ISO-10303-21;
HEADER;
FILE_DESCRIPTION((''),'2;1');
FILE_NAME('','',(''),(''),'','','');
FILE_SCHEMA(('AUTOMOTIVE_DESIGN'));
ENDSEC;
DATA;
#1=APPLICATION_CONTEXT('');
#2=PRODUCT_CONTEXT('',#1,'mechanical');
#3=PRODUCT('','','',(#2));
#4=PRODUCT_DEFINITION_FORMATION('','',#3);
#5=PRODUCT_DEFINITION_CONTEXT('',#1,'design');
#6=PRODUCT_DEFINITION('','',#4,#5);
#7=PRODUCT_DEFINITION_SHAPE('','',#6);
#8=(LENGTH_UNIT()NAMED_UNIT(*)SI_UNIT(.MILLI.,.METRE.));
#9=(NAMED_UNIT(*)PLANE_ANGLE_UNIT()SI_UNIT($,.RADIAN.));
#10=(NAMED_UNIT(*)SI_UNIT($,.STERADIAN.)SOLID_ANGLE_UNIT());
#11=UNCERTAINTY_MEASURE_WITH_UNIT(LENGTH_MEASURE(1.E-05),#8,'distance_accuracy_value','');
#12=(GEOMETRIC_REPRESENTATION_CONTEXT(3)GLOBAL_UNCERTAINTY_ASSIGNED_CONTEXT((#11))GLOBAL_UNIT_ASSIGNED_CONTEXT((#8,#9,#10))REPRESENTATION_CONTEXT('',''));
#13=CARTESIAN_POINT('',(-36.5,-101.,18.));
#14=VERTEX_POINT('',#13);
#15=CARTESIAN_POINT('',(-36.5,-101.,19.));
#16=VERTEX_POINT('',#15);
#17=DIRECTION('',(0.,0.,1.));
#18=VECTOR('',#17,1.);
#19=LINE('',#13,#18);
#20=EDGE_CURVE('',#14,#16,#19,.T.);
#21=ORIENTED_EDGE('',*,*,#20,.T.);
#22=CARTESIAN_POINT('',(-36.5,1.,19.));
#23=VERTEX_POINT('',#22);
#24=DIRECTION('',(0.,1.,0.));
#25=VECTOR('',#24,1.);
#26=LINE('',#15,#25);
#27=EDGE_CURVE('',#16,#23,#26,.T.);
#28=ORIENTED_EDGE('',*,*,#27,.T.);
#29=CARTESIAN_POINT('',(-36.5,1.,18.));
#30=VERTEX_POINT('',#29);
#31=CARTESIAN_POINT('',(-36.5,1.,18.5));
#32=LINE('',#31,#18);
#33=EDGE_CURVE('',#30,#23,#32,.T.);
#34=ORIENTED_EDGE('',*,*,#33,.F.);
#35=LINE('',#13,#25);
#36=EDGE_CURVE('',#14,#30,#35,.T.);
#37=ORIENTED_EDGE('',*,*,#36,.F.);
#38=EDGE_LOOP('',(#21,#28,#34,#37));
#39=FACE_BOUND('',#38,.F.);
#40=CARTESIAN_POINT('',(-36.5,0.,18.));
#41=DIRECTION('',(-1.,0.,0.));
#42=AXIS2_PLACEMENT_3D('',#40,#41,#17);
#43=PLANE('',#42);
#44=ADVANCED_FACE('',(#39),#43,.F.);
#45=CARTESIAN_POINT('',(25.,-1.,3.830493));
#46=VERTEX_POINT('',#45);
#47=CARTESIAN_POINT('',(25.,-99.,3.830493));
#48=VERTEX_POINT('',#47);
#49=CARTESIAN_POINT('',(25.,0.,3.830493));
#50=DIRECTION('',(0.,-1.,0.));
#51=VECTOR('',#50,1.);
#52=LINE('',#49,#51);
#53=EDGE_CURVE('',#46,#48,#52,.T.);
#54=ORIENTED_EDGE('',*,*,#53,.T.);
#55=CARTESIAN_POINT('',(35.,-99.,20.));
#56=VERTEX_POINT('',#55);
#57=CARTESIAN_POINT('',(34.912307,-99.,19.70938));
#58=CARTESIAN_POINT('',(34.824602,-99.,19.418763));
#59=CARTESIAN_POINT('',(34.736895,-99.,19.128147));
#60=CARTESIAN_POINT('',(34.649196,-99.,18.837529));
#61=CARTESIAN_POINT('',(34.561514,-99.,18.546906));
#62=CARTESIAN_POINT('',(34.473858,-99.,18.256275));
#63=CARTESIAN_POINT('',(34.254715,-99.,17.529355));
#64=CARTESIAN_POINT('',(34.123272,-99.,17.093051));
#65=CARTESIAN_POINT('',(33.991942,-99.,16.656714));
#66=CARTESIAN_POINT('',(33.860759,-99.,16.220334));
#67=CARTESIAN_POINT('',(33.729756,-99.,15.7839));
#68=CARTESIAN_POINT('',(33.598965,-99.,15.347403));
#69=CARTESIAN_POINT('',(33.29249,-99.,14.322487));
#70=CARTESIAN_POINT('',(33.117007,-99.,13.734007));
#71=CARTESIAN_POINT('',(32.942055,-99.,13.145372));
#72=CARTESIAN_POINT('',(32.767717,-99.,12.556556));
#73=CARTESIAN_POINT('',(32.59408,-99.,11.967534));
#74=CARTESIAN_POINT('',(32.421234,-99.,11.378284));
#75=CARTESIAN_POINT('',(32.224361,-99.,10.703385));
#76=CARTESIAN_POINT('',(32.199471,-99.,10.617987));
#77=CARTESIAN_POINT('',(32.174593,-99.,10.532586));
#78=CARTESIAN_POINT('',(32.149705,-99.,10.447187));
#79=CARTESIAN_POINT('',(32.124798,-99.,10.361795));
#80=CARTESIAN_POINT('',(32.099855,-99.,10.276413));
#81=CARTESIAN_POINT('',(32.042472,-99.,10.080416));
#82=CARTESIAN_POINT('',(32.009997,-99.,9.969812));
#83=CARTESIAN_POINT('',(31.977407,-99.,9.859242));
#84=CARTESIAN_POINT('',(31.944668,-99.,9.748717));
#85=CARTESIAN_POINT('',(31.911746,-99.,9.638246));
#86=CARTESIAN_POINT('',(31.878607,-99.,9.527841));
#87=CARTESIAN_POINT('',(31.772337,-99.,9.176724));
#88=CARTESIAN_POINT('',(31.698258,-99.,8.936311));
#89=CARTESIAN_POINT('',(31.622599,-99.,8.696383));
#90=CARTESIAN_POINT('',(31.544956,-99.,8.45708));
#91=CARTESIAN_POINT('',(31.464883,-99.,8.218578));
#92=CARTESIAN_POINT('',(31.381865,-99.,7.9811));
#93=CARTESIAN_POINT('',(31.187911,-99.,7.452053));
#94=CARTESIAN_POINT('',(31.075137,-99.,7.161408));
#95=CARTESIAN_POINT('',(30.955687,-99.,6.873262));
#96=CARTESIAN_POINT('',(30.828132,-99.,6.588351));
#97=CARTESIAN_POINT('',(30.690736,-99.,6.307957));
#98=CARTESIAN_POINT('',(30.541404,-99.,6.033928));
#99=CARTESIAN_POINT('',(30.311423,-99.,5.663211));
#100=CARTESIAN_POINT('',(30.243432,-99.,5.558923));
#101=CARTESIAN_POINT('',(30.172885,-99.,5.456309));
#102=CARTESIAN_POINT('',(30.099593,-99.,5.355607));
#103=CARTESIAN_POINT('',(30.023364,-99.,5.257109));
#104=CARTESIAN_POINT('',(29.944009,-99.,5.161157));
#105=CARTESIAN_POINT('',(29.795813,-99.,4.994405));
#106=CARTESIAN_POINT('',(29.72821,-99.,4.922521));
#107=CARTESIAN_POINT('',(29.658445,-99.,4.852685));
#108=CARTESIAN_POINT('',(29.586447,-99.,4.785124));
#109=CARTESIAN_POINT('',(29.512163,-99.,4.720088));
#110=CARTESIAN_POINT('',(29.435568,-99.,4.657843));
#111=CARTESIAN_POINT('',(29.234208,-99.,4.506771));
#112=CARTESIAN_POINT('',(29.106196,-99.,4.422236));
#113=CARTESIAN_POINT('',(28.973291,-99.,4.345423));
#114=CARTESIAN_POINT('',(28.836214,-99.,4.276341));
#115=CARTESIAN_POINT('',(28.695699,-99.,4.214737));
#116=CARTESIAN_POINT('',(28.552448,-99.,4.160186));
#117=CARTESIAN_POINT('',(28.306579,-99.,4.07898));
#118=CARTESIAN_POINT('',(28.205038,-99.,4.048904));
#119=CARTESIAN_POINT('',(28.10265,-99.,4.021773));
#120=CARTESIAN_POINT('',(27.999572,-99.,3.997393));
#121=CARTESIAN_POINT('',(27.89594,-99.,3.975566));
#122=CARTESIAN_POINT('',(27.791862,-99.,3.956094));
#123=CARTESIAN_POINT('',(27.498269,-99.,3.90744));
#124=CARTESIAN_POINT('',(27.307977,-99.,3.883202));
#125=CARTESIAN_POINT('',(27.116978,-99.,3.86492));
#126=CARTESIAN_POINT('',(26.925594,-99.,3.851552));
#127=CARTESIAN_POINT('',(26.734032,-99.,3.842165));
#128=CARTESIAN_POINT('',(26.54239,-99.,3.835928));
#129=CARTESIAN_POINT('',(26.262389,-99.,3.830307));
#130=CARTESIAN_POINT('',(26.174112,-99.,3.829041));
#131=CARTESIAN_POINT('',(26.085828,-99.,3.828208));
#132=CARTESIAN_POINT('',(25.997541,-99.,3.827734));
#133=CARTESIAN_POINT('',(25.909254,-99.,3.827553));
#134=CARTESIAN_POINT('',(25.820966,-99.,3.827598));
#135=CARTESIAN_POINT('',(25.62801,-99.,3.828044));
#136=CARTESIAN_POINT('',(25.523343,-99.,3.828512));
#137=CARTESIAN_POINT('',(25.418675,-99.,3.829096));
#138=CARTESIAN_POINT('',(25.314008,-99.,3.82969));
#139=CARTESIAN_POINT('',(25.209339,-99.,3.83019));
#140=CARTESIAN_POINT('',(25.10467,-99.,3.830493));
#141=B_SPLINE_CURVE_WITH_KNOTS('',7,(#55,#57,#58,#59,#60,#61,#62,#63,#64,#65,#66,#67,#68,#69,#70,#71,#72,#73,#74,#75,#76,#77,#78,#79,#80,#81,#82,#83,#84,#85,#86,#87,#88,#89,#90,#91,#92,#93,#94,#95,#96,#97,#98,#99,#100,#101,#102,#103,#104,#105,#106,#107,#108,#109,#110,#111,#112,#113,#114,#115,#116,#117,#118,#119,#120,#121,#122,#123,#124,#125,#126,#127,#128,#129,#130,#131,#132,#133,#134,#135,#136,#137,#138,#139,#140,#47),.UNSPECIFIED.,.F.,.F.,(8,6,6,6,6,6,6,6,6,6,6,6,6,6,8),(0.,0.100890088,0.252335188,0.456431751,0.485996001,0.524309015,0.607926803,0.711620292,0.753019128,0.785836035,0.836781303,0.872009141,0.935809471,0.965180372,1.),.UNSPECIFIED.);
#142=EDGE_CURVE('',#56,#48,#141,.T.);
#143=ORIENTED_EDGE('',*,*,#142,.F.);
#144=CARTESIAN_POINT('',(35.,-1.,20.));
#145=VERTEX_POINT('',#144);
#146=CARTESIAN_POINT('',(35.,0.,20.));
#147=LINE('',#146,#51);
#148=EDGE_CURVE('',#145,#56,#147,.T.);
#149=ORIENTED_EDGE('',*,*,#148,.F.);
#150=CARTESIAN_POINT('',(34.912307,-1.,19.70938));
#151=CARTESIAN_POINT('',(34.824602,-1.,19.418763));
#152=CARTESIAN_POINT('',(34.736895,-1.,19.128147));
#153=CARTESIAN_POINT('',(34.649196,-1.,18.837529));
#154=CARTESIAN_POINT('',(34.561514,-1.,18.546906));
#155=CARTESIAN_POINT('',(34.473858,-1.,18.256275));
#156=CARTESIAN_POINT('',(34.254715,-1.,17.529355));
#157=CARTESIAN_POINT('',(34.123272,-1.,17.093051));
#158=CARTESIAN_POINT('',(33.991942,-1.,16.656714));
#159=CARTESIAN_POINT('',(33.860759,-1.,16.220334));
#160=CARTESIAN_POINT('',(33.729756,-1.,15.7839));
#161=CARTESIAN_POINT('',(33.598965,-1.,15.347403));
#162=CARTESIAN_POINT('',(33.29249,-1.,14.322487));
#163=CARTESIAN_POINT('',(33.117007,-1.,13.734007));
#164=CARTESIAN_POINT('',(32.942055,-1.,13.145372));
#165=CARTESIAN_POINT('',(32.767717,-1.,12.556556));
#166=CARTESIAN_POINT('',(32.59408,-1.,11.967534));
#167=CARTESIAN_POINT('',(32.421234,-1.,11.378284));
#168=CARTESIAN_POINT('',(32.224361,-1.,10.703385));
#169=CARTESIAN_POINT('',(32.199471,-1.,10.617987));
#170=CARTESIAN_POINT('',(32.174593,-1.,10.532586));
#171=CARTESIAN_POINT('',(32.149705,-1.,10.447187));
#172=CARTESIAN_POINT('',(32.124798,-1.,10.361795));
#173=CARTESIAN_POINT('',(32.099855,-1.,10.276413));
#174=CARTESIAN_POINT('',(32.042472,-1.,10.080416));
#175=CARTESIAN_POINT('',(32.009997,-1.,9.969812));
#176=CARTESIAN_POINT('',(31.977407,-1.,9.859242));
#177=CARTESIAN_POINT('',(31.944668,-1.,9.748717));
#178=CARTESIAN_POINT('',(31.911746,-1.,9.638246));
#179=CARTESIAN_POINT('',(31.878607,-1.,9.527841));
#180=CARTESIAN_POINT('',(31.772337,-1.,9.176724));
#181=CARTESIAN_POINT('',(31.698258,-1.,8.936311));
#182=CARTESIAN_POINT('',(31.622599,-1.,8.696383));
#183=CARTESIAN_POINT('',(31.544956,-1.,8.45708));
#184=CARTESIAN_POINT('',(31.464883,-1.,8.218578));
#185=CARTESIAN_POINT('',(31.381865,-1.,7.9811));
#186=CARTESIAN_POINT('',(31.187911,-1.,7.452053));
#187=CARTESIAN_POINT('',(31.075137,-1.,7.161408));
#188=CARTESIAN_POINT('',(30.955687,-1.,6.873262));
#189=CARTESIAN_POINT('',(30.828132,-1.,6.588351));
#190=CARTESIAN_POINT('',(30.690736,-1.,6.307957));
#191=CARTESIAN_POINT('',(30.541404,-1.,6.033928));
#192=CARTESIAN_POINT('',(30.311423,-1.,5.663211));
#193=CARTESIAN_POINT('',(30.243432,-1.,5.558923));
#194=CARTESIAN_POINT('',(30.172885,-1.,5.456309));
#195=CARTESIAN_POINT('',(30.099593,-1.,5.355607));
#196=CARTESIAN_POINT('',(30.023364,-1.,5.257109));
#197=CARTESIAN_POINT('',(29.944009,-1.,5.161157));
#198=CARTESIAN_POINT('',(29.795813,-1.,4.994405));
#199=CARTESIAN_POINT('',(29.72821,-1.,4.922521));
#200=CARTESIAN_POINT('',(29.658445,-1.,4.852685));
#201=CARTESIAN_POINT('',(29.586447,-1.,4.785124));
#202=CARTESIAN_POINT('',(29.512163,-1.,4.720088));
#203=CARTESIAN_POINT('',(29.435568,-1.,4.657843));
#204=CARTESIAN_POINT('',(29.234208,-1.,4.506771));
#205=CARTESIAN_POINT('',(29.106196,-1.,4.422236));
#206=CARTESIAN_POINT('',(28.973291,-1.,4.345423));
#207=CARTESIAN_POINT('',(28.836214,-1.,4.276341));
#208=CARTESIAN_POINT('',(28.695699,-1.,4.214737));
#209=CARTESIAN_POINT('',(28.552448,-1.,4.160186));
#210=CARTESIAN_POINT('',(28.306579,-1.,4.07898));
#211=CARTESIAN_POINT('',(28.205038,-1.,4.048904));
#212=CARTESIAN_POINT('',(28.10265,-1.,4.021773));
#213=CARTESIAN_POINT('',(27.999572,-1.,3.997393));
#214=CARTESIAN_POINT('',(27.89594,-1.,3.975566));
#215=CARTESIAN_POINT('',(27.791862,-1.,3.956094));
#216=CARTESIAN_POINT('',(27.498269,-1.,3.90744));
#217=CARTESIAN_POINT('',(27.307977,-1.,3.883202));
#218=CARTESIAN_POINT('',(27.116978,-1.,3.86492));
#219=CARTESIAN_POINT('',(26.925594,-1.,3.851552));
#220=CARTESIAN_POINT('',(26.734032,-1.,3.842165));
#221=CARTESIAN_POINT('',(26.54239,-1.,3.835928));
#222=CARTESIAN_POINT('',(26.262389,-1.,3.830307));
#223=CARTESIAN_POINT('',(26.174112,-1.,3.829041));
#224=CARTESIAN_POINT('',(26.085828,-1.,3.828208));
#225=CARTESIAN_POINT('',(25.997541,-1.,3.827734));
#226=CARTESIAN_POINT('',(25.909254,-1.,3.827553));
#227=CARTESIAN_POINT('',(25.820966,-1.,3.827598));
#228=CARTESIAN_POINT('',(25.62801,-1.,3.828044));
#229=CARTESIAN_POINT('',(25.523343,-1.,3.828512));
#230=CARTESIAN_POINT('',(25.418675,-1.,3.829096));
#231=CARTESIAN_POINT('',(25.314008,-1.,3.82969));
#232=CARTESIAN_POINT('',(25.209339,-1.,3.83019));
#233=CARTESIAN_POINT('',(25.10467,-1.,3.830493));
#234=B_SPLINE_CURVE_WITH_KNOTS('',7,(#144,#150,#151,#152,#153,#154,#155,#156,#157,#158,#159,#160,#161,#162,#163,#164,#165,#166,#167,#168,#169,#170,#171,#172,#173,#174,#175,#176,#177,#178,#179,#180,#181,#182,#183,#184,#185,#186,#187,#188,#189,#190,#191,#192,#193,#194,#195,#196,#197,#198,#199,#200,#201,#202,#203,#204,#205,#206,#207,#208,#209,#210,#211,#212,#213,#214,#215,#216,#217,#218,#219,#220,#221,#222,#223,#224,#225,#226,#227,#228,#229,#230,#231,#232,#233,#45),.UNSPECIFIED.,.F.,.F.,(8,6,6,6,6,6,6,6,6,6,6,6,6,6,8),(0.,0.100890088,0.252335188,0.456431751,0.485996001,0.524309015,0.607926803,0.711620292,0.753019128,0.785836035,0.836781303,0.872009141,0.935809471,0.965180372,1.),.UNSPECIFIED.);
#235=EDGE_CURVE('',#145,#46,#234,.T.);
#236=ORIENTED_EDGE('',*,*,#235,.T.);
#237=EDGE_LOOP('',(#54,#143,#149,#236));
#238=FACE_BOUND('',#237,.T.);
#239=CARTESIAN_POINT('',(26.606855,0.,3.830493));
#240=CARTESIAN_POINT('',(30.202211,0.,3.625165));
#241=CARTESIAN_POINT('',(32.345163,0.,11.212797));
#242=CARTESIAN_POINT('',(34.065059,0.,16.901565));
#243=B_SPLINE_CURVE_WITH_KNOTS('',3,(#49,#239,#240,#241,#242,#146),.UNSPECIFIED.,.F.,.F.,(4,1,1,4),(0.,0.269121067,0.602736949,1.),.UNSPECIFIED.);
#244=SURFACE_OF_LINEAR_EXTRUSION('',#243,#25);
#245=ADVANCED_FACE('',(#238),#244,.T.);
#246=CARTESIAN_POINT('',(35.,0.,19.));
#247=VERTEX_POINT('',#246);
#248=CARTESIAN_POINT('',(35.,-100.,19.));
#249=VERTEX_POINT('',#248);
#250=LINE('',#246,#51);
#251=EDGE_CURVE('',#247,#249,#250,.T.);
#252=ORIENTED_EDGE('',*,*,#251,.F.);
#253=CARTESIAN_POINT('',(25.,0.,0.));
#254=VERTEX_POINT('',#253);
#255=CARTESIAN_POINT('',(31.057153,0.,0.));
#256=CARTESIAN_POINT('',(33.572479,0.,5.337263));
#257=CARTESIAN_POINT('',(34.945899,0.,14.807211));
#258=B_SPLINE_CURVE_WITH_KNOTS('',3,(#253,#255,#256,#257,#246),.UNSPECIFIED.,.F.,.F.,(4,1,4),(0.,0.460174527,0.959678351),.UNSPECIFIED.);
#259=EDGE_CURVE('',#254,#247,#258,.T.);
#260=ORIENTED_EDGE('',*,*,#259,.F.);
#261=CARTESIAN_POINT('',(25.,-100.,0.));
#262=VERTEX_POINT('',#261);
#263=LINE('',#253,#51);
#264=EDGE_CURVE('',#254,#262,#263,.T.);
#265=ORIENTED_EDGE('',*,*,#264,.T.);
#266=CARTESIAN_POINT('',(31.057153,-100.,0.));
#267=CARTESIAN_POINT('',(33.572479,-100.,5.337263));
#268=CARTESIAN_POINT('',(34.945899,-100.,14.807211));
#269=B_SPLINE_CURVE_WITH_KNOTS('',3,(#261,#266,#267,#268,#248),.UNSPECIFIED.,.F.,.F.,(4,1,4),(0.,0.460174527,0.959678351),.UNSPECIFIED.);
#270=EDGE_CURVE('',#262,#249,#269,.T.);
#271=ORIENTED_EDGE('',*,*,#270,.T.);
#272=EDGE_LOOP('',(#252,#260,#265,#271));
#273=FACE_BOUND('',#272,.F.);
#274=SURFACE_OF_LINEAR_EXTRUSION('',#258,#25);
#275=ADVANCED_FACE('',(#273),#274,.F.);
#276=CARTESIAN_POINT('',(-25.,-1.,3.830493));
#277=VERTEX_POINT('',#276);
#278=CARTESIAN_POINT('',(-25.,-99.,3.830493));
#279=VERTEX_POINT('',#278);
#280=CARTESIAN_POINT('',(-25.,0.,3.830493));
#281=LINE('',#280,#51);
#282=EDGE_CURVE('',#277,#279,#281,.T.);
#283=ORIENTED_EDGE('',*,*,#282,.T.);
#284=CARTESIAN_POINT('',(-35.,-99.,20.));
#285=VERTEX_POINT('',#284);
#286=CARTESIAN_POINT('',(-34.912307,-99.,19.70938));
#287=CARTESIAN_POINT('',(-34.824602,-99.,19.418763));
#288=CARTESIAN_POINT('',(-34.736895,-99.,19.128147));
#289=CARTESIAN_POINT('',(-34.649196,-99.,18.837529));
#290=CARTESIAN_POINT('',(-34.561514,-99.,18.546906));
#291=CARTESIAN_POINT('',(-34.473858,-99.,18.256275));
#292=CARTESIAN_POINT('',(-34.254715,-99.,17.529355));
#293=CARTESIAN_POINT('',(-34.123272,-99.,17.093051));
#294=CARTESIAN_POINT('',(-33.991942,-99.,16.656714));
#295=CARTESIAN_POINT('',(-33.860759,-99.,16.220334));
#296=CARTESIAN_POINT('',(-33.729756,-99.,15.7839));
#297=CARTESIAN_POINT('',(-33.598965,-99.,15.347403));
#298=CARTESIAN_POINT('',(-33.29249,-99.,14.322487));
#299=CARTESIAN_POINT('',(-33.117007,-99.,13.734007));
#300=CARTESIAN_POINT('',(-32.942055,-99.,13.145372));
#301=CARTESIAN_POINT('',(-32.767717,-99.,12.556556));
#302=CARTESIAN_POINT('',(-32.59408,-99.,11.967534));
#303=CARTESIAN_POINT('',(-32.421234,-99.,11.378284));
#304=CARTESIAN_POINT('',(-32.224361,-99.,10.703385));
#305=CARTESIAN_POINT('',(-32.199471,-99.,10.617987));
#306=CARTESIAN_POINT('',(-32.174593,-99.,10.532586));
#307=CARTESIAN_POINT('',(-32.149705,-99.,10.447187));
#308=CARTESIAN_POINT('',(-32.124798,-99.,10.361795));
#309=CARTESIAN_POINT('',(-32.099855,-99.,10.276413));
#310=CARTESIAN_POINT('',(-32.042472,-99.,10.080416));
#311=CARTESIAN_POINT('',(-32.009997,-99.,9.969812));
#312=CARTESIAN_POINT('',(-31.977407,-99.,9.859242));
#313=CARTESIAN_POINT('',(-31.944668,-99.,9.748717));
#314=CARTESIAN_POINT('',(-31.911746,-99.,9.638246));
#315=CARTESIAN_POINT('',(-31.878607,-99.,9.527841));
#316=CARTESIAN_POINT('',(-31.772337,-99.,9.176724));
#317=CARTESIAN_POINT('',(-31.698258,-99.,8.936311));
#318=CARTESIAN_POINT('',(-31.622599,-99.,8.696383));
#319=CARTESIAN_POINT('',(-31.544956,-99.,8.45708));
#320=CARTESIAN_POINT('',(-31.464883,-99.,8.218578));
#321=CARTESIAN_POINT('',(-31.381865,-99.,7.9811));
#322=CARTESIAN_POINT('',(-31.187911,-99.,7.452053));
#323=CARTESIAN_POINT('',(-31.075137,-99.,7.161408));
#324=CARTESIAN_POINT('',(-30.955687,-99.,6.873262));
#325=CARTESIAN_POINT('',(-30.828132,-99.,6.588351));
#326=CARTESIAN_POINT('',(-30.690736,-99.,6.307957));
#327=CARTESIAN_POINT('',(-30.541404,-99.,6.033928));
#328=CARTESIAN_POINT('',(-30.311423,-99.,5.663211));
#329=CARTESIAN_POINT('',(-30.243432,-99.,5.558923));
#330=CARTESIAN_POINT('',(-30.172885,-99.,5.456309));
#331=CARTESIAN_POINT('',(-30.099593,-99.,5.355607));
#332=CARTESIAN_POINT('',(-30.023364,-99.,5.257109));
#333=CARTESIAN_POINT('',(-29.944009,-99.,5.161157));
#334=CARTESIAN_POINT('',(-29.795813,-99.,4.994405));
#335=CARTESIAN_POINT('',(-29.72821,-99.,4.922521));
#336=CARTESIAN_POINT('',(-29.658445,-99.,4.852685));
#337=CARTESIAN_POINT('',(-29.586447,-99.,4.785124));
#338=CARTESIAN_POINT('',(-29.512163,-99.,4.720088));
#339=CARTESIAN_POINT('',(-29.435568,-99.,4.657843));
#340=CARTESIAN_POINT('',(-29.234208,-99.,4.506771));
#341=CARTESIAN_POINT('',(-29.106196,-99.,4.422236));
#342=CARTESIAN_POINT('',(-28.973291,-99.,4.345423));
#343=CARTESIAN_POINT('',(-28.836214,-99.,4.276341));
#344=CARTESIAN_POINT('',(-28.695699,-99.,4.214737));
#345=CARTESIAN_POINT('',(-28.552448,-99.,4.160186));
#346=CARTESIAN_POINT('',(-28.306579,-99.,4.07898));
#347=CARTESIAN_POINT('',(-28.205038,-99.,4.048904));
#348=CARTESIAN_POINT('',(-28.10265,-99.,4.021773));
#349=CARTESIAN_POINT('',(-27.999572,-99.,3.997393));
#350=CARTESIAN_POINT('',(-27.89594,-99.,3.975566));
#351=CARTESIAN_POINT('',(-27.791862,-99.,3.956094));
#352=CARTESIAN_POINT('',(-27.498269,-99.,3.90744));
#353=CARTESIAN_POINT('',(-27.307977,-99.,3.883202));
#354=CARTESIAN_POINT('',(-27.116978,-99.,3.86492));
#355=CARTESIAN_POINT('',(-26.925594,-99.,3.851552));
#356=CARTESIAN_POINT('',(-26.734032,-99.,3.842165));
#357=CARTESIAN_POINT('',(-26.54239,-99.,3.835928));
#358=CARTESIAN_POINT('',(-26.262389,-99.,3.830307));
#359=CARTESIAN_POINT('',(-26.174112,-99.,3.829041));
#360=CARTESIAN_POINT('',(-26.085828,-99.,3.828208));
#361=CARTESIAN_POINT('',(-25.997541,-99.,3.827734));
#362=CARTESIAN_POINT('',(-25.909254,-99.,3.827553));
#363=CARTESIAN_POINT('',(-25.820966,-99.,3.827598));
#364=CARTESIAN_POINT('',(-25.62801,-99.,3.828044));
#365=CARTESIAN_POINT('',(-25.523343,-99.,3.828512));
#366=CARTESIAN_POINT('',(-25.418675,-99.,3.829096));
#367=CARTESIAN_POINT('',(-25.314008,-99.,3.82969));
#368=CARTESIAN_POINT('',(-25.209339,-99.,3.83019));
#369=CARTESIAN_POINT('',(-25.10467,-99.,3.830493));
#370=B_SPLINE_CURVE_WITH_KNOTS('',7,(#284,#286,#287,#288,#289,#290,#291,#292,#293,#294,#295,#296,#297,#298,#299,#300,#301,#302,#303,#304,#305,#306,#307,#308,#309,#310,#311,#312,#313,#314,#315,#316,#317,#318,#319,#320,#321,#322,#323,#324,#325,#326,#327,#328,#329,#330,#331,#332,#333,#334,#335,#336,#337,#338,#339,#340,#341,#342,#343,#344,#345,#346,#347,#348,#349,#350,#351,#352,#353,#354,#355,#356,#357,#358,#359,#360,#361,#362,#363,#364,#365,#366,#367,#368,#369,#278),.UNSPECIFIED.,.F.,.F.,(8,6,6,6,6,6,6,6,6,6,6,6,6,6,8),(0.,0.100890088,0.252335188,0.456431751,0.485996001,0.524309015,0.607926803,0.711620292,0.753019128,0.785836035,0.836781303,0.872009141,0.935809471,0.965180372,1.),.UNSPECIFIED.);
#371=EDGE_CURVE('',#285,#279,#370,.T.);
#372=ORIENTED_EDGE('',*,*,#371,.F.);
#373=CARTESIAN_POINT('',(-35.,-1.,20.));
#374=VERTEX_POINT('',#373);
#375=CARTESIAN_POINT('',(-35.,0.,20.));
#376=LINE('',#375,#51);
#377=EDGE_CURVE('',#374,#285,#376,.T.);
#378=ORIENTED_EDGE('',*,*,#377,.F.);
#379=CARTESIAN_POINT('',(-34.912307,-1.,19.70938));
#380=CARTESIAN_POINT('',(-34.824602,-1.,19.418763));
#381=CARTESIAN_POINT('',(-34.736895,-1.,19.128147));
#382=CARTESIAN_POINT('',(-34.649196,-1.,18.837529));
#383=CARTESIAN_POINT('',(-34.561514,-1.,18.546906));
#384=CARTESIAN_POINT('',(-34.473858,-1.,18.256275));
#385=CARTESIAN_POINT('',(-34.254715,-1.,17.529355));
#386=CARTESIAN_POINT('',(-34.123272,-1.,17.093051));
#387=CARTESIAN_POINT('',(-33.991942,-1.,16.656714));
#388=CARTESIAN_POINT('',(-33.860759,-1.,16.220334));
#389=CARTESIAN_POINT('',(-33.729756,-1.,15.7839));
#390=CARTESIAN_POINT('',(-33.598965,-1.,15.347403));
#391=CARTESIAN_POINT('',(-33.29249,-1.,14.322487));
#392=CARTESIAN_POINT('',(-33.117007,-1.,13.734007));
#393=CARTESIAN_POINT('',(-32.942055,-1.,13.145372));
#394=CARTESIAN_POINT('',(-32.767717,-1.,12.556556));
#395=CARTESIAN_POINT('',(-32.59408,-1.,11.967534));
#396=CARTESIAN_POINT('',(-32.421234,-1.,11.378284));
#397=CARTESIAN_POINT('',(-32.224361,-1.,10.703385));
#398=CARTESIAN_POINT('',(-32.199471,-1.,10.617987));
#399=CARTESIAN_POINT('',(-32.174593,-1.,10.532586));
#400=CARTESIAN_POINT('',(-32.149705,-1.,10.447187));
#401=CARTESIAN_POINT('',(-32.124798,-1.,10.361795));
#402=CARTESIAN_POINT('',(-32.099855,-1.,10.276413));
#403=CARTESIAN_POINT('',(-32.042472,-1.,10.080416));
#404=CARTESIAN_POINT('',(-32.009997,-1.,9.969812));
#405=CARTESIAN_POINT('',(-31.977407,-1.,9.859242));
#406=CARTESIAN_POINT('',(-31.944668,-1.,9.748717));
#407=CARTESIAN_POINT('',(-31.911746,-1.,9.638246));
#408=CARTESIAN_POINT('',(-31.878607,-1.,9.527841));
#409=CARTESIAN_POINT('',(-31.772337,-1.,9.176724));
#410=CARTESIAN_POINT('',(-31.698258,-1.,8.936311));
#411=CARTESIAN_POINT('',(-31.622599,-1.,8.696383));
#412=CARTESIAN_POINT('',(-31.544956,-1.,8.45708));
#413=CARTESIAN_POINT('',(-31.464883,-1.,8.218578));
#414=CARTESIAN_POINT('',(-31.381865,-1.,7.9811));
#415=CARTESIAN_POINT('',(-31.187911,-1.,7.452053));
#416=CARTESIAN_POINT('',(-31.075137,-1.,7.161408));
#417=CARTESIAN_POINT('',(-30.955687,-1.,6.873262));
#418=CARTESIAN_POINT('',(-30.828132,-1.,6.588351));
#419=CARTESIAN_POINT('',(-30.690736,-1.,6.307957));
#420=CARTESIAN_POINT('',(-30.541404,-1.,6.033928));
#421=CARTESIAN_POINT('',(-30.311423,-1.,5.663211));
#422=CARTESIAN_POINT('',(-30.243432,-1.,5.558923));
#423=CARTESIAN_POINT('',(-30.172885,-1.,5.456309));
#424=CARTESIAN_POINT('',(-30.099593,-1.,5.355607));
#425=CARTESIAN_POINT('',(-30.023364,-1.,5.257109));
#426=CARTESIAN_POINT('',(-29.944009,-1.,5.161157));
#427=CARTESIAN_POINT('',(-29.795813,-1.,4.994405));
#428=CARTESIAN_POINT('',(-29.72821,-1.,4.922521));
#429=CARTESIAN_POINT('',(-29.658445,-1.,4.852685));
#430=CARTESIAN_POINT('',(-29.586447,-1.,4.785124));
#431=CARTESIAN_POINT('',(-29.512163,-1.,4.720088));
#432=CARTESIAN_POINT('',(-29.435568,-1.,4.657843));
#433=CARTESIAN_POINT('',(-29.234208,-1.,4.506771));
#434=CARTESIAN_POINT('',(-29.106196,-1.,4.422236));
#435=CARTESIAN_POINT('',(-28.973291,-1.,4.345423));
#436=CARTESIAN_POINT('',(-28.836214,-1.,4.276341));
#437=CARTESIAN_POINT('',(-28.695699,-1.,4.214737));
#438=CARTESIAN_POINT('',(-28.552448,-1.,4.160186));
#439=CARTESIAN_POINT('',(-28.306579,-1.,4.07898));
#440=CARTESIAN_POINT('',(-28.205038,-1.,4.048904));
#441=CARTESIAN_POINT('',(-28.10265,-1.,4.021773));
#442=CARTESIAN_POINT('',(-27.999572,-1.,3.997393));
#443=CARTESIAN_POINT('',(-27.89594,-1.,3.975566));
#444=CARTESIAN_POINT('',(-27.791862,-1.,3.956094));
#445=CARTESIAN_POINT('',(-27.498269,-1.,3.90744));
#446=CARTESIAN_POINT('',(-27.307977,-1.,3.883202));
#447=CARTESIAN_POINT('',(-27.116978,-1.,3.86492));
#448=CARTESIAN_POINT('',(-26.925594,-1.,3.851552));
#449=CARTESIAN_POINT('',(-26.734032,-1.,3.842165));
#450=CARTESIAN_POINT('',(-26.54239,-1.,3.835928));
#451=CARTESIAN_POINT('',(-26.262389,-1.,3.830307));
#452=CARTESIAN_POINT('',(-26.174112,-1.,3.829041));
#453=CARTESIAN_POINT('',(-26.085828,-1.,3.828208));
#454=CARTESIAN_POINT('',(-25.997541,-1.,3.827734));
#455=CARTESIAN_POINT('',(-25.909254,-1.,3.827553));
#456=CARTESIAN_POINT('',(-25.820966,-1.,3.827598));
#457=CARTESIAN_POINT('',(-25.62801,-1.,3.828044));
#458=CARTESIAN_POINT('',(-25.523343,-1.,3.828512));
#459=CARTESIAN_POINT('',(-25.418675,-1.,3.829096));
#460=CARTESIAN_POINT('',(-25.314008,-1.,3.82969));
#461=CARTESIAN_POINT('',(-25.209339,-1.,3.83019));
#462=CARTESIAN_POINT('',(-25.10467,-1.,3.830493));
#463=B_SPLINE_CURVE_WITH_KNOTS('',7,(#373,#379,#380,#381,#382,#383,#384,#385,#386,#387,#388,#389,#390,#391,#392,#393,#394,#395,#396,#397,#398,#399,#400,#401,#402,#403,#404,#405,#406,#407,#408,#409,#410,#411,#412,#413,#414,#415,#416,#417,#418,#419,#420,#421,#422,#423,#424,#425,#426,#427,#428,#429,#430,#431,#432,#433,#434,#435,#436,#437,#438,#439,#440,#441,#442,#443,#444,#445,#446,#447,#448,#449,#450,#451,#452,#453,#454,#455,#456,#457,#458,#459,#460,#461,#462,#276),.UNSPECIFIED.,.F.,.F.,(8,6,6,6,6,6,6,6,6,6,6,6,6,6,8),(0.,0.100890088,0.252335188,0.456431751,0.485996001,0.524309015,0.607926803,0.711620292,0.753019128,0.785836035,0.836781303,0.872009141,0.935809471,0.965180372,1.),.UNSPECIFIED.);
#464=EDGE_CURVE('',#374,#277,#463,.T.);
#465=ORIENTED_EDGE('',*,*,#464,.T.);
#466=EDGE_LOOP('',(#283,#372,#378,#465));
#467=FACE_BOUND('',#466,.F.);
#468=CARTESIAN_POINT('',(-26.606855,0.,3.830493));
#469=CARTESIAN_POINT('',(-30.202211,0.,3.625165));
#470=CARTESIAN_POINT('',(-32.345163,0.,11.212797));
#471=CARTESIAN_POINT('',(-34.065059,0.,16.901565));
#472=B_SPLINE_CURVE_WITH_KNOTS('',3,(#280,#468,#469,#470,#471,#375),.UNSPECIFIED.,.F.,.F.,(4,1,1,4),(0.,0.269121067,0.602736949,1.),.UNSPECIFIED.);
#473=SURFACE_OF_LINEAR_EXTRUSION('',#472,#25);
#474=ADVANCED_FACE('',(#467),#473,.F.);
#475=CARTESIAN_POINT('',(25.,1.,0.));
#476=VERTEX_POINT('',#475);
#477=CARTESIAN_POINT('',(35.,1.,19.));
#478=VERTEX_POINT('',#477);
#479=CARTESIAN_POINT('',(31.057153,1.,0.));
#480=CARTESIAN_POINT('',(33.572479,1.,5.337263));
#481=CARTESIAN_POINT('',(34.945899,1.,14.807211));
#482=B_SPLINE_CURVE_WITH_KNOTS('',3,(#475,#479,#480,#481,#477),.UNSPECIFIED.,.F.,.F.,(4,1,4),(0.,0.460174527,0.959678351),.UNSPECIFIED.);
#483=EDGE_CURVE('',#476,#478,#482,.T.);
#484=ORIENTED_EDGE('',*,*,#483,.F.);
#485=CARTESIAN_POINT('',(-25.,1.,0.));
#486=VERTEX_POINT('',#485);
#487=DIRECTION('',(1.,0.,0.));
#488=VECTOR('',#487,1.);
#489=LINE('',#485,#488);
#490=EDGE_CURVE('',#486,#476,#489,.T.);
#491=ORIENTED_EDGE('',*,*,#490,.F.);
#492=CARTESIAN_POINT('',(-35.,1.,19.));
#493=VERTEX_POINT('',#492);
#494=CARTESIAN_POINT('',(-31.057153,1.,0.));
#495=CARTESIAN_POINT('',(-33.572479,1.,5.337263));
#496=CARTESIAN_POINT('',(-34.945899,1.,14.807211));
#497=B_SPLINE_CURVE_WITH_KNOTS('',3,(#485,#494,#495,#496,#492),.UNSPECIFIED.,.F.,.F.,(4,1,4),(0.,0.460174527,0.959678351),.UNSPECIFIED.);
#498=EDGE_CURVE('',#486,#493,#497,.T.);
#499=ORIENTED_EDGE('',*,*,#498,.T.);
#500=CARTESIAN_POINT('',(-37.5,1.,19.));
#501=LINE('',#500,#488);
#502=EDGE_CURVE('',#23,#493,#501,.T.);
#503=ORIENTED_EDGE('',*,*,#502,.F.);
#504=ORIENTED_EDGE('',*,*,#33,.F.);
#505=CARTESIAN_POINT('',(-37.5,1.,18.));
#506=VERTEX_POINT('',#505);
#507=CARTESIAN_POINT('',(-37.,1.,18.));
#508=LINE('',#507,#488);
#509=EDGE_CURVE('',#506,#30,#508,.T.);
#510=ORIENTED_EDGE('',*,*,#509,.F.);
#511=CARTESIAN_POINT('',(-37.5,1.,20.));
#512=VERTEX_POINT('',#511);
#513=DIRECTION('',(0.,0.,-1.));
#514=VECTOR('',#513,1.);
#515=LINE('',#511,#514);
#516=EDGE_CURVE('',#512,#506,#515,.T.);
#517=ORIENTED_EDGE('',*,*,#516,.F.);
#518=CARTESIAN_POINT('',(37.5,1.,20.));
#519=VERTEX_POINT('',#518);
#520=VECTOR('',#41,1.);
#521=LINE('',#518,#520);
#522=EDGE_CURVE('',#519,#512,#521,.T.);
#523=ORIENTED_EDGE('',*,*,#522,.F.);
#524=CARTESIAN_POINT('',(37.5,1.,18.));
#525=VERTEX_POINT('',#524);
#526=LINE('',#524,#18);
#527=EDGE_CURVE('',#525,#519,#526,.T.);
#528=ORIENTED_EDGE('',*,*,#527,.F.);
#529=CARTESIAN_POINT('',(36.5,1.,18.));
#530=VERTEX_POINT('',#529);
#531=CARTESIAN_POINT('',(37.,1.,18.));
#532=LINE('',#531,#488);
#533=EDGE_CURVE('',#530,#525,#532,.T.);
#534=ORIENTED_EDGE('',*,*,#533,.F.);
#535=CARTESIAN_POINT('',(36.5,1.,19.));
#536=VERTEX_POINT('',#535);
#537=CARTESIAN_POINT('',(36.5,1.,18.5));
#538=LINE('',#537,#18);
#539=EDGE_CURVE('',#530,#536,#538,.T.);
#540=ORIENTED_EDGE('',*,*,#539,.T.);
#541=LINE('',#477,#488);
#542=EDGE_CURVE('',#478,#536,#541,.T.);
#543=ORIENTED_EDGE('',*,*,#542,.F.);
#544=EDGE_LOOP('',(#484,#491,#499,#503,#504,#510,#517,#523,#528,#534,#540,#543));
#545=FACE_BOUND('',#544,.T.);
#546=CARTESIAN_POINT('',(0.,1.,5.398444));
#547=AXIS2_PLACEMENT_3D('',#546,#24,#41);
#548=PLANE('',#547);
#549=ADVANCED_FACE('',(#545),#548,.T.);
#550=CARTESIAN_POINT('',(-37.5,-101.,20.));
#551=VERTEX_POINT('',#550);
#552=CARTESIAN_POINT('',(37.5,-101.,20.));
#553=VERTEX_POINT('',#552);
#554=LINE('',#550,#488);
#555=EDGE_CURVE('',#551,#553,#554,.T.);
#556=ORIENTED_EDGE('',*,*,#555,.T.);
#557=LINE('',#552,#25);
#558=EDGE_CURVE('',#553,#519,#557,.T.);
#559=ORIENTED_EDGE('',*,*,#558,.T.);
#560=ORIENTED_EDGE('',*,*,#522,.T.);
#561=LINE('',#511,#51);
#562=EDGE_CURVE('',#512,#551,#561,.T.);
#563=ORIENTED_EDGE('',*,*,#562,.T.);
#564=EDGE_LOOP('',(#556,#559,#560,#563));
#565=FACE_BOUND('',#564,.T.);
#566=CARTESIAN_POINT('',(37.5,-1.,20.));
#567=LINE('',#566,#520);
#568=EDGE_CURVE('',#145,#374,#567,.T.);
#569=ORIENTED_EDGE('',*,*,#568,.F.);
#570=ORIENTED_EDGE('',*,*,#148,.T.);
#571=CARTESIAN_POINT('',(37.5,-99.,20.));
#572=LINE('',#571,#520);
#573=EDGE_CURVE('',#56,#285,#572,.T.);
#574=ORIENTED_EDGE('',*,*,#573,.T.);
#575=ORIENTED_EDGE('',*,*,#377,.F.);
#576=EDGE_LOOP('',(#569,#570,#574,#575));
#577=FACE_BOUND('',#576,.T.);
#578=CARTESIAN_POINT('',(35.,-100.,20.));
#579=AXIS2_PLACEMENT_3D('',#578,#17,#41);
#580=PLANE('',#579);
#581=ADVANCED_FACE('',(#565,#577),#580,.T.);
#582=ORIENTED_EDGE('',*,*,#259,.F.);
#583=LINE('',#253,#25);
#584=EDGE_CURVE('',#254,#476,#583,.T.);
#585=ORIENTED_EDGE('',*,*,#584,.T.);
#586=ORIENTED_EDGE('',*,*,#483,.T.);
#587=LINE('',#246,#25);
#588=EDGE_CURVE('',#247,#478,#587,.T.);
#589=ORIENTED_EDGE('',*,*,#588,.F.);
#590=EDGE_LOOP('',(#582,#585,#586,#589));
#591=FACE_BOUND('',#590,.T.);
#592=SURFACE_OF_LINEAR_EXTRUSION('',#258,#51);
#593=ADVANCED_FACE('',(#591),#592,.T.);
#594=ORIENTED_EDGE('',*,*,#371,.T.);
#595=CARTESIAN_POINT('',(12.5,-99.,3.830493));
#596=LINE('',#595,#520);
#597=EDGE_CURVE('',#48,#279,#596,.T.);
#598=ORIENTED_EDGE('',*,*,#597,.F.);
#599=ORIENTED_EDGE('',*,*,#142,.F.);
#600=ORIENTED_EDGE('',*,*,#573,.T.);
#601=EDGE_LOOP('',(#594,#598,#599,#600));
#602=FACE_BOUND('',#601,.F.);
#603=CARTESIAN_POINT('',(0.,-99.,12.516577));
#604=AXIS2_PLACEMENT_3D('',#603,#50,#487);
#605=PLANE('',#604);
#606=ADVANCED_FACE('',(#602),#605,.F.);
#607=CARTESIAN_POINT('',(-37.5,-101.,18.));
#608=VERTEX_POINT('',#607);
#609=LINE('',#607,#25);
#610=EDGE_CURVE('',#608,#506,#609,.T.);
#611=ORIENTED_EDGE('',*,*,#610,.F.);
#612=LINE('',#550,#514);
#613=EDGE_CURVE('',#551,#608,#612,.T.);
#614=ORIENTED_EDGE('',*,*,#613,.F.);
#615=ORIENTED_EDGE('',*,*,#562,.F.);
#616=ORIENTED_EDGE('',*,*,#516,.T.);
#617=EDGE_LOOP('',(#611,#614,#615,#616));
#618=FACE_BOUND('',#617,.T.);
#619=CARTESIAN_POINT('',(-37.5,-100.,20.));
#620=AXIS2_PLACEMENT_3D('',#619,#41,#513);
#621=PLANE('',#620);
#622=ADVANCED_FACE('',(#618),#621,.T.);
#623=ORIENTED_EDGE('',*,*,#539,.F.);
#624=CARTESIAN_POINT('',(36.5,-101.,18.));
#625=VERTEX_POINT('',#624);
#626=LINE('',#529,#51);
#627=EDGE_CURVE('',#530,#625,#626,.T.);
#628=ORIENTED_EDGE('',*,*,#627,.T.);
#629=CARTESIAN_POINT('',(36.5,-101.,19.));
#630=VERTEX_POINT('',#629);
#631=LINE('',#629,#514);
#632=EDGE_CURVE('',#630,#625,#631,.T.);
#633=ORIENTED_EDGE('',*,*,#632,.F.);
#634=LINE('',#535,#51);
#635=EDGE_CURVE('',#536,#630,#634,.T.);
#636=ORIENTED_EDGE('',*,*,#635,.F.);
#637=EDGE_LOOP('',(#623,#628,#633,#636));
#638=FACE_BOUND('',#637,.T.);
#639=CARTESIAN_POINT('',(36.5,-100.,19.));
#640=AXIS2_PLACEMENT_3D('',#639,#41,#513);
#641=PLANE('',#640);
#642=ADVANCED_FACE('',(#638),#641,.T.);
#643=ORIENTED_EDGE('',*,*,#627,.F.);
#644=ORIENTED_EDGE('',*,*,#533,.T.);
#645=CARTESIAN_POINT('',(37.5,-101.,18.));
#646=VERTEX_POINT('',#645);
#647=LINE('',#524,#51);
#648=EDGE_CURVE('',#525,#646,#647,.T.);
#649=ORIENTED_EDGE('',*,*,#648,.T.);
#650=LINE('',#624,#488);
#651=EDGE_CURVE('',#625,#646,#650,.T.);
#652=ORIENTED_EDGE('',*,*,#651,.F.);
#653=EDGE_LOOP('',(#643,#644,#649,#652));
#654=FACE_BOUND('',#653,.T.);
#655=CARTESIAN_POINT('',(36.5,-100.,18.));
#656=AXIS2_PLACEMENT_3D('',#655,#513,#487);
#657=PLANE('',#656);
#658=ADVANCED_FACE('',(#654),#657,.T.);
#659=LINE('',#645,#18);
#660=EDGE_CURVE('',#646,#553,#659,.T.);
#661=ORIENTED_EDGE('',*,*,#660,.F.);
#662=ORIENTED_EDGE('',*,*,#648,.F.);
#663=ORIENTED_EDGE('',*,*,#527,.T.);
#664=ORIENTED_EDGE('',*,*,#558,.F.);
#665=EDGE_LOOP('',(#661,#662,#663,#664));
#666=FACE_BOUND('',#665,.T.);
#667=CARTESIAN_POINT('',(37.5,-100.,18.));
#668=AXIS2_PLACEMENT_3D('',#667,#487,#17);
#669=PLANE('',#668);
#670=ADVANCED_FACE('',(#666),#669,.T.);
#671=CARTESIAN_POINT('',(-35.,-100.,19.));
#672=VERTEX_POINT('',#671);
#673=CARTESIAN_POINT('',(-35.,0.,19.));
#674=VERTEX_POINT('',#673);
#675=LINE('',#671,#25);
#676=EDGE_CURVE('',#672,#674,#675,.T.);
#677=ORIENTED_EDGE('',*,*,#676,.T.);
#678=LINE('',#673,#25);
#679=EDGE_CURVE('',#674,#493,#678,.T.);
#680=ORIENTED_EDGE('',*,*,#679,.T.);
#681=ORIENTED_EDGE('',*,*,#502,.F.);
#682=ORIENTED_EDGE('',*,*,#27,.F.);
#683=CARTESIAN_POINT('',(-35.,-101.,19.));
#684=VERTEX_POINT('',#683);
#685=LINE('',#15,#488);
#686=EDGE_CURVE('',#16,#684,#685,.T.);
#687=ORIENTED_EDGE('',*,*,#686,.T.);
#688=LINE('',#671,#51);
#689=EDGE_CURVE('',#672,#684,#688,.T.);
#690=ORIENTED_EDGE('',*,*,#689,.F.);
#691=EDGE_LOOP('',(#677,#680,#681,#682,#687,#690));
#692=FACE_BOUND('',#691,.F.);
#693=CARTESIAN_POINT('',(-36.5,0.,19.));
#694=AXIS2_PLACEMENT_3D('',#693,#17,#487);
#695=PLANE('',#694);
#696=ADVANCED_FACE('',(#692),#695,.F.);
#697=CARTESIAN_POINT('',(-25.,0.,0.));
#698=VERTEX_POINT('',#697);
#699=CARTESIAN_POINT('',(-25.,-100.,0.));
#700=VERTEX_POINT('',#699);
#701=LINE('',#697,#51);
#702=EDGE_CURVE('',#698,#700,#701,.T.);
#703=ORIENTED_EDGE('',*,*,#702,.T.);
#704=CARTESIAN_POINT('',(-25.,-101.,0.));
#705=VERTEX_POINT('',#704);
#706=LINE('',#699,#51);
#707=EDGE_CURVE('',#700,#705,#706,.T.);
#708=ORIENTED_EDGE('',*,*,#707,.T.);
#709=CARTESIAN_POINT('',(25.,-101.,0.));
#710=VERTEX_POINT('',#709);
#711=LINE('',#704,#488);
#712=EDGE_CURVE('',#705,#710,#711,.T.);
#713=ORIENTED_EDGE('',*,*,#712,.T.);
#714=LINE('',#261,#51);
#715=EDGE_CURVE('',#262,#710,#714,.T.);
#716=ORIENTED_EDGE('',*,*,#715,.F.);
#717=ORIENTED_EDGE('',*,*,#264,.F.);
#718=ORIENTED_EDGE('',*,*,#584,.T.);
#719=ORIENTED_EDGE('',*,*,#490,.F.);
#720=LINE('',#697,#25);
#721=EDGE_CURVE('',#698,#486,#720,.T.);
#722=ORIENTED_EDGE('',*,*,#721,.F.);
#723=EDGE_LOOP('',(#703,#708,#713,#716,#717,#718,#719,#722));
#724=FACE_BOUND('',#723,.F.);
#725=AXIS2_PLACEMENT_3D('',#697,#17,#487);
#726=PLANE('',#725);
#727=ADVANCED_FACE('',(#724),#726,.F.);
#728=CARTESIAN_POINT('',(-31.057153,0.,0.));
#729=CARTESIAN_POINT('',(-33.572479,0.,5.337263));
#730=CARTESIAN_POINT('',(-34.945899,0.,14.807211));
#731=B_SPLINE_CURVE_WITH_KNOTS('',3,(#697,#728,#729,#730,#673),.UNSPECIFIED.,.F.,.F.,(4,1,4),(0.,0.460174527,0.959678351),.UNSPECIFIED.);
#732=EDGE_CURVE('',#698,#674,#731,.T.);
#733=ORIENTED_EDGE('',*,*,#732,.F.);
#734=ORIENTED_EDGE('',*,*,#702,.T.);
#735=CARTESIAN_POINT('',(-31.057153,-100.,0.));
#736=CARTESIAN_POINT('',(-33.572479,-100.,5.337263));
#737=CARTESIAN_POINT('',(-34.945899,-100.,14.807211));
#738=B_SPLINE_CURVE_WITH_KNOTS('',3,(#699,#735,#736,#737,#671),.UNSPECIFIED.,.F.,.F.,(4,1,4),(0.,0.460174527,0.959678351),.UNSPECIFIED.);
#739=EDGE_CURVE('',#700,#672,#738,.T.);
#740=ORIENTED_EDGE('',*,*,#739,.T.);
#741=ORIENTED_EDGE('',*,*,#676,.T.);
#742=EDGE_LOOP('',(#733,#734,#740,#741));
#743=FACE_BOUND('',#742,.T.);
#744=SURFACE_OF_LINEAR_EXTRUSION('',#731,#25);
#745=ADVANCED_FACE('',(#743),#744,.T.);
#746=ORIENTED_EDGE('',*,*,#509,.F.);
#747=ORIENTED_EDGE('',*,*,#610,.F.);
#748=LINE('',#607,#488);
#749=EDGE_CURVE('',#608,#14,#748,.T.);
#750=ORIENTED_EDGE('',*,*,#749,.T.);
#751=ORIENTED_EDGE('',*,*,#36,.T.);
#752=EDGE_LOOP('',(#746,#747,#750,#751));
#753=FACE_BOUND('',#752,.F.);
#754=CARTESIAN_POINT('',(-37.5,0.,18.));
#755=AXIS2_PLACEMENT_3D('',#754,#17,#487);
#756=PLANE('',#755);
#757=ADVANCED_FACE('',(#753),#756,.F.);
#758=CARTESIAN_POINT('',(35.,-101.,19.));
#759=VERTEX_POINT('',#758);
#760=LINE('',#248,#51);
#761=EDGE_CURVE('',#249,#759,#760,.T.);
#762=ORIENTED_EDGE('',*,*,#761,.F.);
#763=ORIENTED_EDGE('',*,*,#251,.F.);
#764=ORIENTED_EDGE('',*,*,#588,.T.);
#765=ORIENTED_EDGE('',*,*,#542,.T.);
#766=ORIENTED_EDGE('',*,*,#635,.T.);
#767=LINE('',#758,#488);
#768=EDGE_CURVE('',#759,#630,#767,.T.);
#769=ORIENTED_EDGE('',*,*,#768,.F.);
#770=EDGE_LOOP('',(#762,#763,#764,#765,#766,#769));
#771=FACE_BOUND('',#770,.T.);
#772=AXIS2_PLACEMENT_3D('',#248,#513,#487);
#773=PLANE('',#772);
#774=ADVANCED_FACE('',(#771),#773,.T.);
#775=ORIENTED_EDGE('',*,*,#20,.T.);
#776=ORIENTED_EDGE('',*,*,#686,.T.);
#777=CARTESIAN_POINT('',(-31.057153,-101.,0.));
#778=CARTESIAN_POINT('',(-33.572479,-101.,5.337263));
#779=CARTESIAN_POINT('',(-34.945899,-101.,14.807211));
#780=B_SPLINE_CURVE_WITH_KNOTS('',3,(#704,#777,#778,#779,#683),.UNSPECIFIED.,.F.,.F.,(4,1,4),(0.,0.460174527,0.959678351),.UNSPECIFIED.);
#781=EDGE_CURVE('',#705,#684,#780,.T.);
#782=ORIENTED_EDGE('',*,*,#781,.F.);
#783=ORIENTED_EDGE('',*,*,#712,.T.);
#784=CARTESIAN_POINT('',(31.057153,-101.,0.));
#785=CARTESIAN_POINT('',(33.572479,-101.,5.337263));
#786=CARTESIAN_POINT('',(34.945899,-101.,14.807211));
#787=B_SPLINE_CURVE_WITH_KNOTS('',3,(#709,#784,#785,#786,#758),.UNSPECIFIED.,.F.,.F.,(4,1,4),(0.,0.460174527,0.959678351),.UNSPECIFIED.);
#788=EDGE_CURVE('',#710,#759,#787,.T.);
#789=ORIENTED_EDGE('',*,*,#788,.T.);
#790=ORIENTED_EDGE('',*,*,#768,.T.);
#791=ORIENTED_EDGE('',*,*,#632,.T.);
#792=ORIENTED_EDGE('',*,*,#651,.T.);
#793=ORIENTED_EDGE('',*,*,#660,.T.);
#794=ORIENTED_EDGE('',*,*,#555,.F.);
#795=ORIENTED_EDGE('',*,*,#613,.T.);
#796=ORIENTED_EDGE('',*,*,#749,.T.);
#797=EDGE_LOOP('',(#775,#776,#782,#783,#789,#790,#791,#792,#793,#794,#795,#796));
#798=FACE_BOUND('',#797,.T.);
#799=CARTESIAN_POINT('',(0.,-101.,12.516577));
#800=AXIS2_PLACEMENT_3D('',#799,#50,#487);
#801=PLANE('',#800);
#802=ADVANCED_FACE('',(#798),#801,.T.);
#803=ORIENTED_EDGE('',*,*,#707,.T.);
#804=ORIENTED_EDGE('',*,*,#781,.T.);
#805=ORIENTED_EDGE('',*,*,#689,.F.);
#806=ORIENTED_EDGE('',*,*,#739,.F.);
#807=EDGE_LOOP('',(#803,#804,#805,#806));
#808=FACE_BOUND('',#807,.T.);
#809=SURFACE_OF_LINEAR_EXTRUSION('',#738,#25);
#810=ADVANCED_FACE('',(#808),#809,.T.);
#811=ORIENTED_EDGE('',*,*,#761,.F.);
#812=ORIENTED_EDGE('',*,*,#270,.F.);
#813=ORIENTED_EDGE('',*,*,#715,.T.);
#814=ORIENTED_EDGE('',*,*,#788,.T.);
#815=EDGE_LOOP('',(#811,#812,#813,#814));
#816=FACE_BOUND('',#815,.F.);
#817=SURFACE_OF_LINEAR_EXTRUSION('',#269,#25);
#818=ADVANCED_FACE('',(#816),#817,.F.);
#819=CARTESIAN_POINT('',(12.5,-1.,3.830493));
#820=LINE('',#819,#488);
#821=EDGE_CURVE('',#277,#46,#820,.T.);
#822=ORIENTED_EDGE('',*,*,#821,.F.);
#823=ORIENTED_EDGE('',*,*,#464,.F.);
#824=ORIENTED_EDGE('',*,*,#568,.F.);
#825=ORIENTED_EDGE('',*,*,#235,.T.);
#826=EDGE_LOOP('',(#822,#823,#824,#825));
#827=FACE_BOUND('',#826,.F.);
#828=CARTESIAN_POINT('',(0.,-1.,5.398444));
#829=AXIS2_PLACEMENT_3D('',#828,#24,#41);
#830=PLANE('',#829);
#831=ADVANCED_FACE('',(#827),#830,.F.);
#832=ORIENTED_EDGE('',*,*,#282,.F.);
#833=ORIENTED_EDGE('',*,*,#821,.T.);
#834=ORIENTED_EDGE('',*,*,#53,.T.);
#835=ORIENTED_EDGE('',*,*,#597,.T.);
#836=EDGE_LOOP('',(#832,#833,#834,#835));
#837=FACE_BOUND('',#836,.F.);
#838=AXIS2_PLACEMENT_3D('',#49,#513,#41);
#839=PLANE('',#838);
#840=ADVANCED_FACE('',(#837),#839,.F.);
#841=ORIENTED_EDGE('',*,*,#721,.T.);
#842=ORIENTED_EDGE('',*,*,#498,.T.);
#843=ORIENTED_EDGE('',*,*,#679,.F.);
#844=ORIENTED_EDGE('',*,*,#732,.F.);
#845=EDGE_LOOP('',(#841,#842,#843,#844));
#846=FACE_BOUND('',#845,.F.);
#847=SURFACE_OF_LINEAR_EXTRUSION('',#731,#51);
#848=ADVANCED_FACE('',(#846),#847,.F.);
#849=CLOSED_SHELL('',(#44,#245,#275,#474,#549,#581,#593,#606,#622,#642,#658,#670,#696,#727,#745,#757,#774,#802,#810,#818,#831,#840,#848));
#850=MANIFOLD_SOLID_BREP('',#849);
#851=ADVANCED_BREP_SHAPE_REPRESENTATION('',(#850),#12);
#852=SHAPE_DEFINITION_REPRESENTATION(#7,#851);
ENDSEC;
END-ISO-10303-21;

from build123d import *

# Parameters (mm, degrees)
F0_W     = 1
F0_H     = 1
F1_DEPTH = 100
F3_DEPTH = 1


with BuildPart() as f1:
    # F0 (on Front) → F1 (new body)
    with BuildSketch(Plane.XZ):
        with BuildLine():
            add(Edge.make_bspline(
                [(-25, 0), (-31.0571533825, 0), (-33.5724792203, 5.3372634662), (-34.9458986693, 14.8072108202), (-35, 19)],
                knots=[0, 0, 0, 0, 0.4601745269, 0.959678351, 0.959678351, 0.959678351, 0.959678351], degree=3))
            Line((-25, 0), (0, 0))
            Line((0, 0), (25, 0))
            add(Edge.make_bspline(
                [(25, 0), (31.0571533825, 0), (33.5724792203, 5.3372634662), (34.9458986693, 14.8072108202), (35, 19)],
                knots=[0, 0, 0, 0, 0.4601745269, 0.959678351, 0.959678351, 0.959678351, 0.959678351], degree=3))
            add(Edge.make_bspline(
                [(35, 19), (35.0043672436, 19.338456215), (35.0044288568, 19.672114945), (35, 20)],
                knots=[0.959678351, 0.959678351, 0.959678351, 0.959678351, 1, 1, 1, 1], degree=3))
            add(Edge.make_bspline(
                [(25, 3.8304927293), (26.6068548069, 3.8304927293), (30.2022112297, 3.6251652991), (32.3451633939, 11.2127971956), (34.0650589972, 16.9015645999), (35, 20)],
                knots=[0, 0, 0, 0, 0.2691210669, 0.6027369485, 1, 1, 1, 1], degree=3))
            Line((25, 3.8304927293), (0, 3.8304927293))
            Line((0, 3.8304927293), (-25, 3.8304927293))
            add(Edge.make_bspline(
                [(-25, 3.8304927293), (-26.6068548069, 3.8304927293), (-30.2022112297, 3.6251652991), (-32.3451633939, 11.2127971956), (-34.0650589972, 16.9015645999), (-35, 20)],
                knots=[0, 0, 0, 0, 0.2691210669, 0.6027369485, 1, 1, 1, 1], degree=3))
            add(Edge.make_bspline(
                [(-35, 19), (-35.0043672436, 19.338456215), (-35.0044288568, 19.672114945), (-35, 20)],
                knots=[0.959678351, 0.959678351, 0.959678351, 0.959678351, 1, 1, 1, 1], degree=3))
        make_face()
        with BuildLine():
            Line((-36.5, 19), (-35, 19))
            add(Edge.make_bspline(
                [(-35, 19), (-35.0043672436, 19.338456215), (-35.0044288568, 19.672114945), (-35, 20)],
                knots=[0.959678351, 0.959678351, 0.959678351, 0.959678351, 1, 1, 1, 1], degree=3))
            Line((-35, 20), (-37.5, 20))
            Line((-37.5, 20), (-37.5, 19))
            Line((-37.5, 19), (-36.5, 19))
        make_face()
        with BuildLine():
            add(Edge.make_bspline(
                [(35, 19), (35.0043672436, 19.338456215), (35.0044288568, 19.672114945), (35, 20)],
                knots=[0.959678351, 0.959678351, 0.959678351, 0.959678351, 1, 1, 1, 1], degree=3))
            Line((35, 19), (36.5, 19))
            Line((36.5, 19), (37.5, 19))
            Line((37.5, 19), (37.5, 20))
            Line((37.5, 20), (35, 20))
        make_face()
        with Locations((-37, 18.5)):
            Rectangle(F0_W, F0_H)
        with Locations((37, 18.5)):
            Rectangle(F0_W, F0_H)
    extrude(amount=F1_DEPTH)

    # F1_face (on face) + F0 (on Front) + F2 (on face) → F3 (join, symmetric)
    with BuildSketch(Plane(origin=(0, -100, 3.8022780085), x_dir=(1, 0, 0), z_dir=(0, -1, 0))):
        with BuildLine():
            Line((25, 0.0282147208), (-25, 0.0282147208))
            add(Edge.make_bspline(
                [(-25, 0.0282147208), (-26.6068548069, 0.0282147208), (-30.2022112297, -0.1771127094), (-32.3451633939, 7.4105191871), (-34.0650589972, 13.0992865914), (-35, 16.1977219915)],
                knots=[0, 0, 0, 0, 0.2691210669, 0.6027369485, 1, 1, 1, 1], degree=3))
            Line((-35, 16.1977219915), (-37.5, 16.1977219915))
            Line((-37.5, 16.1977219915), (-37.5, 14.1977219915))
            Line((-37.5, 14.1977219915), (-36.5, 14.1977219915))
            Line((-36.5, 14.1977219915), (-36.5, 15.1977219915))
            Line((-36.5, 15.1977219915), (-35, 15.1977219915))
            add(Edge.make_bspline(
                [(-25, -3.8022780085), (-31.0571533825, -3.8022780085), (-33.5724792203, 1.5349854577), (-34.9458986693, 11.0049328117), (-35, 15.1977219915)],
                knots=[0, 0, 0, 0, 0.4601745269, 0.959678351, 0.959678351, 0.959678351, 0.959678351], degree=3))
            Line((-25, -3.8022780085), (25, -3.8022780085))
            add(Edge.make_bspline(
                [(25, -3.8022780085), (31.0571533825, -3.8022780085), (33.5724792203, 1.5349854577), (34.9458986693, 11.0049328117), (35, 15.1977219915)],
                knots=[0, 0, 0, 0, 0.4601745269, 0.959678351, 0.959678351, 0.959678351, 0.959678351], degree=3))
            Line((35, 15.1977219915), (36.5, 15.1977219915))
            Line((36.5, 15.1977219915), (36.5, 14.1977219915))
            Line((36.5, 14.1977219915), (37.5, 14.1977219915))
            Line((37.5, 14.1977219915), (37.5, 16.1977219915))
            Line((37.5, 16.1977219915), (35, 16.1977219915))
            add(Edge.make_bspline(
                [(25, 0.0282147208), (26.6068548069, 0.0282147208), (30.2022112297, -0.1771127094), (32.3451633939, 7.4105191871), (34.0650589972, 13.0992865914), (35, 16.1977219915)],
                knots=[0, 0, 0, 0, 0.2691210669, 0.6027369485, 1, 1, 1, 1], degree=3))
        make_face()
    with BuildSketch(Plane.XZ):
        with BuildLine():
            add(Edge.make_bspline(
                [(-25, 0), (-31.0571533825, 0), (-33.5724792203, 5.3372634662), (-34.9458986693, 14.8072108202), (-35, 19)],
                knots=[0, 0, 0, 0, 0.4601745269, 0.959678351, 0.959678351, 0.959678351, 0.959678351], degree=3))
            Line((-25, 0), (0, 0))
            Line((0, 0), (25, 0))
            add(Edge.make_bspline(
                [(25, 0), (31.0571533825, 0), (33.5724792203, 5.3372634662), (34.9458986693, 14.8072108202), (35, 19)],
                knots=[0, 0, 0, 0, 0.4601745269, 0.959678351, 0.959678351, 0.959678351, 0.959678351], degree=3))
            add(Edge.make_bspline(
                [(35, 19), (35.0043672436, 19.338456215), (35.0044288568, 19.672114945), (35, 20)],
                knots=[0.959678351, 0.959678351, 0.959678351, 0.959678351, 1, 1, 1, 1], degree=3))
            add(Edge.make_bspline(
                [(25, 3.8304927293), (26.6068548069, 3.8304927293), (30.2022112297, 3.6251652991), (32.3451633939, 11.2127971956), (34.0650589972, 16.9015645999), (35, 20)],
                knots=[0, 0, 0, 0, 0.2691210669, 0.6027369485, 1, 1, 1, 1], degree=3))
            Line((25, 3.8304927293), (0, 3.8304927293))
            Line((0, 3.8304927293), (-25, 3.8304927293))
            add(Edge.make_bspline(
                [(-25, 3.8304927293), (-26.6068548069, 3.8304927293), (-30.2022112297, 3.6251652991), (-32.3451633939, 11.2127971956), (-34.0650589972, 16.9015645999), (-35, 20)],
                knots=[0, 0, 0, 0, 0.2691210669, 0.6027369485, 1, 1, 1, 1], degree=3))
            add(Edge.make_bspline(
                [(-35, 19), (-35.0043672436, 19.338456215), (-35.0044288568, 19.672114945), (-35, 20)],
                knots=[0.959678351, 0.959678351, 0.959678351, 0.959678351, 1, 1, 1, 1], degree=3))
        make_face()
        with BuildLine():
            Line((-36.5, 19), (-35, 19))
            add(Edge.make_bspline(
                [(-35, 19), (-35.0043672436, 19.338456215), (-35.0044288568, 19.672114945), (-35, 20)],
                knots=[0.959678351, 0.959678351, 0.959678351, 0.959678351, 1, 1, 1, 1], degree=3))
            Line((-35, 20), (-37.5, 20))
            Line((-37.5, 20), (-37.5, 19))
            Line((-37.5, 19), (-36.5, 19))
        make_face()
        with BuildLine():
            Line((35, 20), (-35, 20))
            add(Edge.make_bspline(
                [(-25, 3.8304927293), (-26.6068548069, 3.8304927293), (-30.2022112297, 3.6251652991), (-32.3451633939, 11.2127971956), (-34.0650589972, 16.9015645999), (-35, 20)],
                knots=[0, 0, 0, 0, 0.2691210669, 0.6027369485, 1, 1, 1, 1], degree=3))
            Line((-25, 3.8304927293), (0, 3.8304927293))
            Line((0, 3.8304927293), (25, 3.8304927293))
            add(Edge.make_bspline(
                [(25, 3.8304927293), (26.6068548069, 3.8304927293), (30.2022112297, 3.6251652991), (32.3451633939, 11.2127971956), (34.0650589972, 16.9015645999), (35, 20)],
                knots=[0, 0, 0, 0, 0.2691210669, 0.6027369485, 1, 1, 1, 1], degree=3))
        make_face()
        with Locations((-37, 18.5)):
            Rectangle(F0_W, F0_H)
        with BuildLine():
            add(Edge.make_bspline(
                [(35, 19), (35.0043672436, 19.338456215), (35.0044288568, 19.672114945), (35, 20)],
                knots=[0.959678351, 0.959678351, 0.959678351, 0.959678351, 1, 1, 1, 1], degree=3))
            Line((35, 19), (36.5, 19))
            Line((36.5, 19), (37.5, 19))
            Line((37.5, 19), (37.5, 20))
            Line((37.5, 20), (35, 20))
        make_face()
        with Locations((37, 18.5)):
            Rectangle(F0_W, F0_H)
    with BuildSketch(Plane.XZ.offset(100)):
        with BuildLine():
            Line((35, 20), (-35, 20))
            add(Edge.make_bspline(
                [(-25, 3.8304927293), (-26.6068548069, 3.8304927293), (-30.2022112297, 3.6251652991), (-32.3451633939, 11.2127971956), (-34.0650589972, 16.9015645999), (-35, 20)],
                knots=[0, 0, 0, 0, 0.2691210669, 0.6027369485, 1, 1, 1, 1], degree=3))
            Line((-25, 3.8304927293), (25, 3.8304927293))
            add(Edge.make_bspline(
                [(25, 3.8304927293), (26.6068548069, 3.8304927293), (30.2022112297, 3.6251652991), (32.3451633939, 11.2127971956), (34.0650589972, 16.9015645999), (35, 20)],
                knots=[0, 0, 0, 0, 0.2691210669, 0.6027369485, 1, 1, 1, 1], degree=3))
        make_face()
    extrude(amount=F3_DEPTH, both=True)


solid = f1.part
